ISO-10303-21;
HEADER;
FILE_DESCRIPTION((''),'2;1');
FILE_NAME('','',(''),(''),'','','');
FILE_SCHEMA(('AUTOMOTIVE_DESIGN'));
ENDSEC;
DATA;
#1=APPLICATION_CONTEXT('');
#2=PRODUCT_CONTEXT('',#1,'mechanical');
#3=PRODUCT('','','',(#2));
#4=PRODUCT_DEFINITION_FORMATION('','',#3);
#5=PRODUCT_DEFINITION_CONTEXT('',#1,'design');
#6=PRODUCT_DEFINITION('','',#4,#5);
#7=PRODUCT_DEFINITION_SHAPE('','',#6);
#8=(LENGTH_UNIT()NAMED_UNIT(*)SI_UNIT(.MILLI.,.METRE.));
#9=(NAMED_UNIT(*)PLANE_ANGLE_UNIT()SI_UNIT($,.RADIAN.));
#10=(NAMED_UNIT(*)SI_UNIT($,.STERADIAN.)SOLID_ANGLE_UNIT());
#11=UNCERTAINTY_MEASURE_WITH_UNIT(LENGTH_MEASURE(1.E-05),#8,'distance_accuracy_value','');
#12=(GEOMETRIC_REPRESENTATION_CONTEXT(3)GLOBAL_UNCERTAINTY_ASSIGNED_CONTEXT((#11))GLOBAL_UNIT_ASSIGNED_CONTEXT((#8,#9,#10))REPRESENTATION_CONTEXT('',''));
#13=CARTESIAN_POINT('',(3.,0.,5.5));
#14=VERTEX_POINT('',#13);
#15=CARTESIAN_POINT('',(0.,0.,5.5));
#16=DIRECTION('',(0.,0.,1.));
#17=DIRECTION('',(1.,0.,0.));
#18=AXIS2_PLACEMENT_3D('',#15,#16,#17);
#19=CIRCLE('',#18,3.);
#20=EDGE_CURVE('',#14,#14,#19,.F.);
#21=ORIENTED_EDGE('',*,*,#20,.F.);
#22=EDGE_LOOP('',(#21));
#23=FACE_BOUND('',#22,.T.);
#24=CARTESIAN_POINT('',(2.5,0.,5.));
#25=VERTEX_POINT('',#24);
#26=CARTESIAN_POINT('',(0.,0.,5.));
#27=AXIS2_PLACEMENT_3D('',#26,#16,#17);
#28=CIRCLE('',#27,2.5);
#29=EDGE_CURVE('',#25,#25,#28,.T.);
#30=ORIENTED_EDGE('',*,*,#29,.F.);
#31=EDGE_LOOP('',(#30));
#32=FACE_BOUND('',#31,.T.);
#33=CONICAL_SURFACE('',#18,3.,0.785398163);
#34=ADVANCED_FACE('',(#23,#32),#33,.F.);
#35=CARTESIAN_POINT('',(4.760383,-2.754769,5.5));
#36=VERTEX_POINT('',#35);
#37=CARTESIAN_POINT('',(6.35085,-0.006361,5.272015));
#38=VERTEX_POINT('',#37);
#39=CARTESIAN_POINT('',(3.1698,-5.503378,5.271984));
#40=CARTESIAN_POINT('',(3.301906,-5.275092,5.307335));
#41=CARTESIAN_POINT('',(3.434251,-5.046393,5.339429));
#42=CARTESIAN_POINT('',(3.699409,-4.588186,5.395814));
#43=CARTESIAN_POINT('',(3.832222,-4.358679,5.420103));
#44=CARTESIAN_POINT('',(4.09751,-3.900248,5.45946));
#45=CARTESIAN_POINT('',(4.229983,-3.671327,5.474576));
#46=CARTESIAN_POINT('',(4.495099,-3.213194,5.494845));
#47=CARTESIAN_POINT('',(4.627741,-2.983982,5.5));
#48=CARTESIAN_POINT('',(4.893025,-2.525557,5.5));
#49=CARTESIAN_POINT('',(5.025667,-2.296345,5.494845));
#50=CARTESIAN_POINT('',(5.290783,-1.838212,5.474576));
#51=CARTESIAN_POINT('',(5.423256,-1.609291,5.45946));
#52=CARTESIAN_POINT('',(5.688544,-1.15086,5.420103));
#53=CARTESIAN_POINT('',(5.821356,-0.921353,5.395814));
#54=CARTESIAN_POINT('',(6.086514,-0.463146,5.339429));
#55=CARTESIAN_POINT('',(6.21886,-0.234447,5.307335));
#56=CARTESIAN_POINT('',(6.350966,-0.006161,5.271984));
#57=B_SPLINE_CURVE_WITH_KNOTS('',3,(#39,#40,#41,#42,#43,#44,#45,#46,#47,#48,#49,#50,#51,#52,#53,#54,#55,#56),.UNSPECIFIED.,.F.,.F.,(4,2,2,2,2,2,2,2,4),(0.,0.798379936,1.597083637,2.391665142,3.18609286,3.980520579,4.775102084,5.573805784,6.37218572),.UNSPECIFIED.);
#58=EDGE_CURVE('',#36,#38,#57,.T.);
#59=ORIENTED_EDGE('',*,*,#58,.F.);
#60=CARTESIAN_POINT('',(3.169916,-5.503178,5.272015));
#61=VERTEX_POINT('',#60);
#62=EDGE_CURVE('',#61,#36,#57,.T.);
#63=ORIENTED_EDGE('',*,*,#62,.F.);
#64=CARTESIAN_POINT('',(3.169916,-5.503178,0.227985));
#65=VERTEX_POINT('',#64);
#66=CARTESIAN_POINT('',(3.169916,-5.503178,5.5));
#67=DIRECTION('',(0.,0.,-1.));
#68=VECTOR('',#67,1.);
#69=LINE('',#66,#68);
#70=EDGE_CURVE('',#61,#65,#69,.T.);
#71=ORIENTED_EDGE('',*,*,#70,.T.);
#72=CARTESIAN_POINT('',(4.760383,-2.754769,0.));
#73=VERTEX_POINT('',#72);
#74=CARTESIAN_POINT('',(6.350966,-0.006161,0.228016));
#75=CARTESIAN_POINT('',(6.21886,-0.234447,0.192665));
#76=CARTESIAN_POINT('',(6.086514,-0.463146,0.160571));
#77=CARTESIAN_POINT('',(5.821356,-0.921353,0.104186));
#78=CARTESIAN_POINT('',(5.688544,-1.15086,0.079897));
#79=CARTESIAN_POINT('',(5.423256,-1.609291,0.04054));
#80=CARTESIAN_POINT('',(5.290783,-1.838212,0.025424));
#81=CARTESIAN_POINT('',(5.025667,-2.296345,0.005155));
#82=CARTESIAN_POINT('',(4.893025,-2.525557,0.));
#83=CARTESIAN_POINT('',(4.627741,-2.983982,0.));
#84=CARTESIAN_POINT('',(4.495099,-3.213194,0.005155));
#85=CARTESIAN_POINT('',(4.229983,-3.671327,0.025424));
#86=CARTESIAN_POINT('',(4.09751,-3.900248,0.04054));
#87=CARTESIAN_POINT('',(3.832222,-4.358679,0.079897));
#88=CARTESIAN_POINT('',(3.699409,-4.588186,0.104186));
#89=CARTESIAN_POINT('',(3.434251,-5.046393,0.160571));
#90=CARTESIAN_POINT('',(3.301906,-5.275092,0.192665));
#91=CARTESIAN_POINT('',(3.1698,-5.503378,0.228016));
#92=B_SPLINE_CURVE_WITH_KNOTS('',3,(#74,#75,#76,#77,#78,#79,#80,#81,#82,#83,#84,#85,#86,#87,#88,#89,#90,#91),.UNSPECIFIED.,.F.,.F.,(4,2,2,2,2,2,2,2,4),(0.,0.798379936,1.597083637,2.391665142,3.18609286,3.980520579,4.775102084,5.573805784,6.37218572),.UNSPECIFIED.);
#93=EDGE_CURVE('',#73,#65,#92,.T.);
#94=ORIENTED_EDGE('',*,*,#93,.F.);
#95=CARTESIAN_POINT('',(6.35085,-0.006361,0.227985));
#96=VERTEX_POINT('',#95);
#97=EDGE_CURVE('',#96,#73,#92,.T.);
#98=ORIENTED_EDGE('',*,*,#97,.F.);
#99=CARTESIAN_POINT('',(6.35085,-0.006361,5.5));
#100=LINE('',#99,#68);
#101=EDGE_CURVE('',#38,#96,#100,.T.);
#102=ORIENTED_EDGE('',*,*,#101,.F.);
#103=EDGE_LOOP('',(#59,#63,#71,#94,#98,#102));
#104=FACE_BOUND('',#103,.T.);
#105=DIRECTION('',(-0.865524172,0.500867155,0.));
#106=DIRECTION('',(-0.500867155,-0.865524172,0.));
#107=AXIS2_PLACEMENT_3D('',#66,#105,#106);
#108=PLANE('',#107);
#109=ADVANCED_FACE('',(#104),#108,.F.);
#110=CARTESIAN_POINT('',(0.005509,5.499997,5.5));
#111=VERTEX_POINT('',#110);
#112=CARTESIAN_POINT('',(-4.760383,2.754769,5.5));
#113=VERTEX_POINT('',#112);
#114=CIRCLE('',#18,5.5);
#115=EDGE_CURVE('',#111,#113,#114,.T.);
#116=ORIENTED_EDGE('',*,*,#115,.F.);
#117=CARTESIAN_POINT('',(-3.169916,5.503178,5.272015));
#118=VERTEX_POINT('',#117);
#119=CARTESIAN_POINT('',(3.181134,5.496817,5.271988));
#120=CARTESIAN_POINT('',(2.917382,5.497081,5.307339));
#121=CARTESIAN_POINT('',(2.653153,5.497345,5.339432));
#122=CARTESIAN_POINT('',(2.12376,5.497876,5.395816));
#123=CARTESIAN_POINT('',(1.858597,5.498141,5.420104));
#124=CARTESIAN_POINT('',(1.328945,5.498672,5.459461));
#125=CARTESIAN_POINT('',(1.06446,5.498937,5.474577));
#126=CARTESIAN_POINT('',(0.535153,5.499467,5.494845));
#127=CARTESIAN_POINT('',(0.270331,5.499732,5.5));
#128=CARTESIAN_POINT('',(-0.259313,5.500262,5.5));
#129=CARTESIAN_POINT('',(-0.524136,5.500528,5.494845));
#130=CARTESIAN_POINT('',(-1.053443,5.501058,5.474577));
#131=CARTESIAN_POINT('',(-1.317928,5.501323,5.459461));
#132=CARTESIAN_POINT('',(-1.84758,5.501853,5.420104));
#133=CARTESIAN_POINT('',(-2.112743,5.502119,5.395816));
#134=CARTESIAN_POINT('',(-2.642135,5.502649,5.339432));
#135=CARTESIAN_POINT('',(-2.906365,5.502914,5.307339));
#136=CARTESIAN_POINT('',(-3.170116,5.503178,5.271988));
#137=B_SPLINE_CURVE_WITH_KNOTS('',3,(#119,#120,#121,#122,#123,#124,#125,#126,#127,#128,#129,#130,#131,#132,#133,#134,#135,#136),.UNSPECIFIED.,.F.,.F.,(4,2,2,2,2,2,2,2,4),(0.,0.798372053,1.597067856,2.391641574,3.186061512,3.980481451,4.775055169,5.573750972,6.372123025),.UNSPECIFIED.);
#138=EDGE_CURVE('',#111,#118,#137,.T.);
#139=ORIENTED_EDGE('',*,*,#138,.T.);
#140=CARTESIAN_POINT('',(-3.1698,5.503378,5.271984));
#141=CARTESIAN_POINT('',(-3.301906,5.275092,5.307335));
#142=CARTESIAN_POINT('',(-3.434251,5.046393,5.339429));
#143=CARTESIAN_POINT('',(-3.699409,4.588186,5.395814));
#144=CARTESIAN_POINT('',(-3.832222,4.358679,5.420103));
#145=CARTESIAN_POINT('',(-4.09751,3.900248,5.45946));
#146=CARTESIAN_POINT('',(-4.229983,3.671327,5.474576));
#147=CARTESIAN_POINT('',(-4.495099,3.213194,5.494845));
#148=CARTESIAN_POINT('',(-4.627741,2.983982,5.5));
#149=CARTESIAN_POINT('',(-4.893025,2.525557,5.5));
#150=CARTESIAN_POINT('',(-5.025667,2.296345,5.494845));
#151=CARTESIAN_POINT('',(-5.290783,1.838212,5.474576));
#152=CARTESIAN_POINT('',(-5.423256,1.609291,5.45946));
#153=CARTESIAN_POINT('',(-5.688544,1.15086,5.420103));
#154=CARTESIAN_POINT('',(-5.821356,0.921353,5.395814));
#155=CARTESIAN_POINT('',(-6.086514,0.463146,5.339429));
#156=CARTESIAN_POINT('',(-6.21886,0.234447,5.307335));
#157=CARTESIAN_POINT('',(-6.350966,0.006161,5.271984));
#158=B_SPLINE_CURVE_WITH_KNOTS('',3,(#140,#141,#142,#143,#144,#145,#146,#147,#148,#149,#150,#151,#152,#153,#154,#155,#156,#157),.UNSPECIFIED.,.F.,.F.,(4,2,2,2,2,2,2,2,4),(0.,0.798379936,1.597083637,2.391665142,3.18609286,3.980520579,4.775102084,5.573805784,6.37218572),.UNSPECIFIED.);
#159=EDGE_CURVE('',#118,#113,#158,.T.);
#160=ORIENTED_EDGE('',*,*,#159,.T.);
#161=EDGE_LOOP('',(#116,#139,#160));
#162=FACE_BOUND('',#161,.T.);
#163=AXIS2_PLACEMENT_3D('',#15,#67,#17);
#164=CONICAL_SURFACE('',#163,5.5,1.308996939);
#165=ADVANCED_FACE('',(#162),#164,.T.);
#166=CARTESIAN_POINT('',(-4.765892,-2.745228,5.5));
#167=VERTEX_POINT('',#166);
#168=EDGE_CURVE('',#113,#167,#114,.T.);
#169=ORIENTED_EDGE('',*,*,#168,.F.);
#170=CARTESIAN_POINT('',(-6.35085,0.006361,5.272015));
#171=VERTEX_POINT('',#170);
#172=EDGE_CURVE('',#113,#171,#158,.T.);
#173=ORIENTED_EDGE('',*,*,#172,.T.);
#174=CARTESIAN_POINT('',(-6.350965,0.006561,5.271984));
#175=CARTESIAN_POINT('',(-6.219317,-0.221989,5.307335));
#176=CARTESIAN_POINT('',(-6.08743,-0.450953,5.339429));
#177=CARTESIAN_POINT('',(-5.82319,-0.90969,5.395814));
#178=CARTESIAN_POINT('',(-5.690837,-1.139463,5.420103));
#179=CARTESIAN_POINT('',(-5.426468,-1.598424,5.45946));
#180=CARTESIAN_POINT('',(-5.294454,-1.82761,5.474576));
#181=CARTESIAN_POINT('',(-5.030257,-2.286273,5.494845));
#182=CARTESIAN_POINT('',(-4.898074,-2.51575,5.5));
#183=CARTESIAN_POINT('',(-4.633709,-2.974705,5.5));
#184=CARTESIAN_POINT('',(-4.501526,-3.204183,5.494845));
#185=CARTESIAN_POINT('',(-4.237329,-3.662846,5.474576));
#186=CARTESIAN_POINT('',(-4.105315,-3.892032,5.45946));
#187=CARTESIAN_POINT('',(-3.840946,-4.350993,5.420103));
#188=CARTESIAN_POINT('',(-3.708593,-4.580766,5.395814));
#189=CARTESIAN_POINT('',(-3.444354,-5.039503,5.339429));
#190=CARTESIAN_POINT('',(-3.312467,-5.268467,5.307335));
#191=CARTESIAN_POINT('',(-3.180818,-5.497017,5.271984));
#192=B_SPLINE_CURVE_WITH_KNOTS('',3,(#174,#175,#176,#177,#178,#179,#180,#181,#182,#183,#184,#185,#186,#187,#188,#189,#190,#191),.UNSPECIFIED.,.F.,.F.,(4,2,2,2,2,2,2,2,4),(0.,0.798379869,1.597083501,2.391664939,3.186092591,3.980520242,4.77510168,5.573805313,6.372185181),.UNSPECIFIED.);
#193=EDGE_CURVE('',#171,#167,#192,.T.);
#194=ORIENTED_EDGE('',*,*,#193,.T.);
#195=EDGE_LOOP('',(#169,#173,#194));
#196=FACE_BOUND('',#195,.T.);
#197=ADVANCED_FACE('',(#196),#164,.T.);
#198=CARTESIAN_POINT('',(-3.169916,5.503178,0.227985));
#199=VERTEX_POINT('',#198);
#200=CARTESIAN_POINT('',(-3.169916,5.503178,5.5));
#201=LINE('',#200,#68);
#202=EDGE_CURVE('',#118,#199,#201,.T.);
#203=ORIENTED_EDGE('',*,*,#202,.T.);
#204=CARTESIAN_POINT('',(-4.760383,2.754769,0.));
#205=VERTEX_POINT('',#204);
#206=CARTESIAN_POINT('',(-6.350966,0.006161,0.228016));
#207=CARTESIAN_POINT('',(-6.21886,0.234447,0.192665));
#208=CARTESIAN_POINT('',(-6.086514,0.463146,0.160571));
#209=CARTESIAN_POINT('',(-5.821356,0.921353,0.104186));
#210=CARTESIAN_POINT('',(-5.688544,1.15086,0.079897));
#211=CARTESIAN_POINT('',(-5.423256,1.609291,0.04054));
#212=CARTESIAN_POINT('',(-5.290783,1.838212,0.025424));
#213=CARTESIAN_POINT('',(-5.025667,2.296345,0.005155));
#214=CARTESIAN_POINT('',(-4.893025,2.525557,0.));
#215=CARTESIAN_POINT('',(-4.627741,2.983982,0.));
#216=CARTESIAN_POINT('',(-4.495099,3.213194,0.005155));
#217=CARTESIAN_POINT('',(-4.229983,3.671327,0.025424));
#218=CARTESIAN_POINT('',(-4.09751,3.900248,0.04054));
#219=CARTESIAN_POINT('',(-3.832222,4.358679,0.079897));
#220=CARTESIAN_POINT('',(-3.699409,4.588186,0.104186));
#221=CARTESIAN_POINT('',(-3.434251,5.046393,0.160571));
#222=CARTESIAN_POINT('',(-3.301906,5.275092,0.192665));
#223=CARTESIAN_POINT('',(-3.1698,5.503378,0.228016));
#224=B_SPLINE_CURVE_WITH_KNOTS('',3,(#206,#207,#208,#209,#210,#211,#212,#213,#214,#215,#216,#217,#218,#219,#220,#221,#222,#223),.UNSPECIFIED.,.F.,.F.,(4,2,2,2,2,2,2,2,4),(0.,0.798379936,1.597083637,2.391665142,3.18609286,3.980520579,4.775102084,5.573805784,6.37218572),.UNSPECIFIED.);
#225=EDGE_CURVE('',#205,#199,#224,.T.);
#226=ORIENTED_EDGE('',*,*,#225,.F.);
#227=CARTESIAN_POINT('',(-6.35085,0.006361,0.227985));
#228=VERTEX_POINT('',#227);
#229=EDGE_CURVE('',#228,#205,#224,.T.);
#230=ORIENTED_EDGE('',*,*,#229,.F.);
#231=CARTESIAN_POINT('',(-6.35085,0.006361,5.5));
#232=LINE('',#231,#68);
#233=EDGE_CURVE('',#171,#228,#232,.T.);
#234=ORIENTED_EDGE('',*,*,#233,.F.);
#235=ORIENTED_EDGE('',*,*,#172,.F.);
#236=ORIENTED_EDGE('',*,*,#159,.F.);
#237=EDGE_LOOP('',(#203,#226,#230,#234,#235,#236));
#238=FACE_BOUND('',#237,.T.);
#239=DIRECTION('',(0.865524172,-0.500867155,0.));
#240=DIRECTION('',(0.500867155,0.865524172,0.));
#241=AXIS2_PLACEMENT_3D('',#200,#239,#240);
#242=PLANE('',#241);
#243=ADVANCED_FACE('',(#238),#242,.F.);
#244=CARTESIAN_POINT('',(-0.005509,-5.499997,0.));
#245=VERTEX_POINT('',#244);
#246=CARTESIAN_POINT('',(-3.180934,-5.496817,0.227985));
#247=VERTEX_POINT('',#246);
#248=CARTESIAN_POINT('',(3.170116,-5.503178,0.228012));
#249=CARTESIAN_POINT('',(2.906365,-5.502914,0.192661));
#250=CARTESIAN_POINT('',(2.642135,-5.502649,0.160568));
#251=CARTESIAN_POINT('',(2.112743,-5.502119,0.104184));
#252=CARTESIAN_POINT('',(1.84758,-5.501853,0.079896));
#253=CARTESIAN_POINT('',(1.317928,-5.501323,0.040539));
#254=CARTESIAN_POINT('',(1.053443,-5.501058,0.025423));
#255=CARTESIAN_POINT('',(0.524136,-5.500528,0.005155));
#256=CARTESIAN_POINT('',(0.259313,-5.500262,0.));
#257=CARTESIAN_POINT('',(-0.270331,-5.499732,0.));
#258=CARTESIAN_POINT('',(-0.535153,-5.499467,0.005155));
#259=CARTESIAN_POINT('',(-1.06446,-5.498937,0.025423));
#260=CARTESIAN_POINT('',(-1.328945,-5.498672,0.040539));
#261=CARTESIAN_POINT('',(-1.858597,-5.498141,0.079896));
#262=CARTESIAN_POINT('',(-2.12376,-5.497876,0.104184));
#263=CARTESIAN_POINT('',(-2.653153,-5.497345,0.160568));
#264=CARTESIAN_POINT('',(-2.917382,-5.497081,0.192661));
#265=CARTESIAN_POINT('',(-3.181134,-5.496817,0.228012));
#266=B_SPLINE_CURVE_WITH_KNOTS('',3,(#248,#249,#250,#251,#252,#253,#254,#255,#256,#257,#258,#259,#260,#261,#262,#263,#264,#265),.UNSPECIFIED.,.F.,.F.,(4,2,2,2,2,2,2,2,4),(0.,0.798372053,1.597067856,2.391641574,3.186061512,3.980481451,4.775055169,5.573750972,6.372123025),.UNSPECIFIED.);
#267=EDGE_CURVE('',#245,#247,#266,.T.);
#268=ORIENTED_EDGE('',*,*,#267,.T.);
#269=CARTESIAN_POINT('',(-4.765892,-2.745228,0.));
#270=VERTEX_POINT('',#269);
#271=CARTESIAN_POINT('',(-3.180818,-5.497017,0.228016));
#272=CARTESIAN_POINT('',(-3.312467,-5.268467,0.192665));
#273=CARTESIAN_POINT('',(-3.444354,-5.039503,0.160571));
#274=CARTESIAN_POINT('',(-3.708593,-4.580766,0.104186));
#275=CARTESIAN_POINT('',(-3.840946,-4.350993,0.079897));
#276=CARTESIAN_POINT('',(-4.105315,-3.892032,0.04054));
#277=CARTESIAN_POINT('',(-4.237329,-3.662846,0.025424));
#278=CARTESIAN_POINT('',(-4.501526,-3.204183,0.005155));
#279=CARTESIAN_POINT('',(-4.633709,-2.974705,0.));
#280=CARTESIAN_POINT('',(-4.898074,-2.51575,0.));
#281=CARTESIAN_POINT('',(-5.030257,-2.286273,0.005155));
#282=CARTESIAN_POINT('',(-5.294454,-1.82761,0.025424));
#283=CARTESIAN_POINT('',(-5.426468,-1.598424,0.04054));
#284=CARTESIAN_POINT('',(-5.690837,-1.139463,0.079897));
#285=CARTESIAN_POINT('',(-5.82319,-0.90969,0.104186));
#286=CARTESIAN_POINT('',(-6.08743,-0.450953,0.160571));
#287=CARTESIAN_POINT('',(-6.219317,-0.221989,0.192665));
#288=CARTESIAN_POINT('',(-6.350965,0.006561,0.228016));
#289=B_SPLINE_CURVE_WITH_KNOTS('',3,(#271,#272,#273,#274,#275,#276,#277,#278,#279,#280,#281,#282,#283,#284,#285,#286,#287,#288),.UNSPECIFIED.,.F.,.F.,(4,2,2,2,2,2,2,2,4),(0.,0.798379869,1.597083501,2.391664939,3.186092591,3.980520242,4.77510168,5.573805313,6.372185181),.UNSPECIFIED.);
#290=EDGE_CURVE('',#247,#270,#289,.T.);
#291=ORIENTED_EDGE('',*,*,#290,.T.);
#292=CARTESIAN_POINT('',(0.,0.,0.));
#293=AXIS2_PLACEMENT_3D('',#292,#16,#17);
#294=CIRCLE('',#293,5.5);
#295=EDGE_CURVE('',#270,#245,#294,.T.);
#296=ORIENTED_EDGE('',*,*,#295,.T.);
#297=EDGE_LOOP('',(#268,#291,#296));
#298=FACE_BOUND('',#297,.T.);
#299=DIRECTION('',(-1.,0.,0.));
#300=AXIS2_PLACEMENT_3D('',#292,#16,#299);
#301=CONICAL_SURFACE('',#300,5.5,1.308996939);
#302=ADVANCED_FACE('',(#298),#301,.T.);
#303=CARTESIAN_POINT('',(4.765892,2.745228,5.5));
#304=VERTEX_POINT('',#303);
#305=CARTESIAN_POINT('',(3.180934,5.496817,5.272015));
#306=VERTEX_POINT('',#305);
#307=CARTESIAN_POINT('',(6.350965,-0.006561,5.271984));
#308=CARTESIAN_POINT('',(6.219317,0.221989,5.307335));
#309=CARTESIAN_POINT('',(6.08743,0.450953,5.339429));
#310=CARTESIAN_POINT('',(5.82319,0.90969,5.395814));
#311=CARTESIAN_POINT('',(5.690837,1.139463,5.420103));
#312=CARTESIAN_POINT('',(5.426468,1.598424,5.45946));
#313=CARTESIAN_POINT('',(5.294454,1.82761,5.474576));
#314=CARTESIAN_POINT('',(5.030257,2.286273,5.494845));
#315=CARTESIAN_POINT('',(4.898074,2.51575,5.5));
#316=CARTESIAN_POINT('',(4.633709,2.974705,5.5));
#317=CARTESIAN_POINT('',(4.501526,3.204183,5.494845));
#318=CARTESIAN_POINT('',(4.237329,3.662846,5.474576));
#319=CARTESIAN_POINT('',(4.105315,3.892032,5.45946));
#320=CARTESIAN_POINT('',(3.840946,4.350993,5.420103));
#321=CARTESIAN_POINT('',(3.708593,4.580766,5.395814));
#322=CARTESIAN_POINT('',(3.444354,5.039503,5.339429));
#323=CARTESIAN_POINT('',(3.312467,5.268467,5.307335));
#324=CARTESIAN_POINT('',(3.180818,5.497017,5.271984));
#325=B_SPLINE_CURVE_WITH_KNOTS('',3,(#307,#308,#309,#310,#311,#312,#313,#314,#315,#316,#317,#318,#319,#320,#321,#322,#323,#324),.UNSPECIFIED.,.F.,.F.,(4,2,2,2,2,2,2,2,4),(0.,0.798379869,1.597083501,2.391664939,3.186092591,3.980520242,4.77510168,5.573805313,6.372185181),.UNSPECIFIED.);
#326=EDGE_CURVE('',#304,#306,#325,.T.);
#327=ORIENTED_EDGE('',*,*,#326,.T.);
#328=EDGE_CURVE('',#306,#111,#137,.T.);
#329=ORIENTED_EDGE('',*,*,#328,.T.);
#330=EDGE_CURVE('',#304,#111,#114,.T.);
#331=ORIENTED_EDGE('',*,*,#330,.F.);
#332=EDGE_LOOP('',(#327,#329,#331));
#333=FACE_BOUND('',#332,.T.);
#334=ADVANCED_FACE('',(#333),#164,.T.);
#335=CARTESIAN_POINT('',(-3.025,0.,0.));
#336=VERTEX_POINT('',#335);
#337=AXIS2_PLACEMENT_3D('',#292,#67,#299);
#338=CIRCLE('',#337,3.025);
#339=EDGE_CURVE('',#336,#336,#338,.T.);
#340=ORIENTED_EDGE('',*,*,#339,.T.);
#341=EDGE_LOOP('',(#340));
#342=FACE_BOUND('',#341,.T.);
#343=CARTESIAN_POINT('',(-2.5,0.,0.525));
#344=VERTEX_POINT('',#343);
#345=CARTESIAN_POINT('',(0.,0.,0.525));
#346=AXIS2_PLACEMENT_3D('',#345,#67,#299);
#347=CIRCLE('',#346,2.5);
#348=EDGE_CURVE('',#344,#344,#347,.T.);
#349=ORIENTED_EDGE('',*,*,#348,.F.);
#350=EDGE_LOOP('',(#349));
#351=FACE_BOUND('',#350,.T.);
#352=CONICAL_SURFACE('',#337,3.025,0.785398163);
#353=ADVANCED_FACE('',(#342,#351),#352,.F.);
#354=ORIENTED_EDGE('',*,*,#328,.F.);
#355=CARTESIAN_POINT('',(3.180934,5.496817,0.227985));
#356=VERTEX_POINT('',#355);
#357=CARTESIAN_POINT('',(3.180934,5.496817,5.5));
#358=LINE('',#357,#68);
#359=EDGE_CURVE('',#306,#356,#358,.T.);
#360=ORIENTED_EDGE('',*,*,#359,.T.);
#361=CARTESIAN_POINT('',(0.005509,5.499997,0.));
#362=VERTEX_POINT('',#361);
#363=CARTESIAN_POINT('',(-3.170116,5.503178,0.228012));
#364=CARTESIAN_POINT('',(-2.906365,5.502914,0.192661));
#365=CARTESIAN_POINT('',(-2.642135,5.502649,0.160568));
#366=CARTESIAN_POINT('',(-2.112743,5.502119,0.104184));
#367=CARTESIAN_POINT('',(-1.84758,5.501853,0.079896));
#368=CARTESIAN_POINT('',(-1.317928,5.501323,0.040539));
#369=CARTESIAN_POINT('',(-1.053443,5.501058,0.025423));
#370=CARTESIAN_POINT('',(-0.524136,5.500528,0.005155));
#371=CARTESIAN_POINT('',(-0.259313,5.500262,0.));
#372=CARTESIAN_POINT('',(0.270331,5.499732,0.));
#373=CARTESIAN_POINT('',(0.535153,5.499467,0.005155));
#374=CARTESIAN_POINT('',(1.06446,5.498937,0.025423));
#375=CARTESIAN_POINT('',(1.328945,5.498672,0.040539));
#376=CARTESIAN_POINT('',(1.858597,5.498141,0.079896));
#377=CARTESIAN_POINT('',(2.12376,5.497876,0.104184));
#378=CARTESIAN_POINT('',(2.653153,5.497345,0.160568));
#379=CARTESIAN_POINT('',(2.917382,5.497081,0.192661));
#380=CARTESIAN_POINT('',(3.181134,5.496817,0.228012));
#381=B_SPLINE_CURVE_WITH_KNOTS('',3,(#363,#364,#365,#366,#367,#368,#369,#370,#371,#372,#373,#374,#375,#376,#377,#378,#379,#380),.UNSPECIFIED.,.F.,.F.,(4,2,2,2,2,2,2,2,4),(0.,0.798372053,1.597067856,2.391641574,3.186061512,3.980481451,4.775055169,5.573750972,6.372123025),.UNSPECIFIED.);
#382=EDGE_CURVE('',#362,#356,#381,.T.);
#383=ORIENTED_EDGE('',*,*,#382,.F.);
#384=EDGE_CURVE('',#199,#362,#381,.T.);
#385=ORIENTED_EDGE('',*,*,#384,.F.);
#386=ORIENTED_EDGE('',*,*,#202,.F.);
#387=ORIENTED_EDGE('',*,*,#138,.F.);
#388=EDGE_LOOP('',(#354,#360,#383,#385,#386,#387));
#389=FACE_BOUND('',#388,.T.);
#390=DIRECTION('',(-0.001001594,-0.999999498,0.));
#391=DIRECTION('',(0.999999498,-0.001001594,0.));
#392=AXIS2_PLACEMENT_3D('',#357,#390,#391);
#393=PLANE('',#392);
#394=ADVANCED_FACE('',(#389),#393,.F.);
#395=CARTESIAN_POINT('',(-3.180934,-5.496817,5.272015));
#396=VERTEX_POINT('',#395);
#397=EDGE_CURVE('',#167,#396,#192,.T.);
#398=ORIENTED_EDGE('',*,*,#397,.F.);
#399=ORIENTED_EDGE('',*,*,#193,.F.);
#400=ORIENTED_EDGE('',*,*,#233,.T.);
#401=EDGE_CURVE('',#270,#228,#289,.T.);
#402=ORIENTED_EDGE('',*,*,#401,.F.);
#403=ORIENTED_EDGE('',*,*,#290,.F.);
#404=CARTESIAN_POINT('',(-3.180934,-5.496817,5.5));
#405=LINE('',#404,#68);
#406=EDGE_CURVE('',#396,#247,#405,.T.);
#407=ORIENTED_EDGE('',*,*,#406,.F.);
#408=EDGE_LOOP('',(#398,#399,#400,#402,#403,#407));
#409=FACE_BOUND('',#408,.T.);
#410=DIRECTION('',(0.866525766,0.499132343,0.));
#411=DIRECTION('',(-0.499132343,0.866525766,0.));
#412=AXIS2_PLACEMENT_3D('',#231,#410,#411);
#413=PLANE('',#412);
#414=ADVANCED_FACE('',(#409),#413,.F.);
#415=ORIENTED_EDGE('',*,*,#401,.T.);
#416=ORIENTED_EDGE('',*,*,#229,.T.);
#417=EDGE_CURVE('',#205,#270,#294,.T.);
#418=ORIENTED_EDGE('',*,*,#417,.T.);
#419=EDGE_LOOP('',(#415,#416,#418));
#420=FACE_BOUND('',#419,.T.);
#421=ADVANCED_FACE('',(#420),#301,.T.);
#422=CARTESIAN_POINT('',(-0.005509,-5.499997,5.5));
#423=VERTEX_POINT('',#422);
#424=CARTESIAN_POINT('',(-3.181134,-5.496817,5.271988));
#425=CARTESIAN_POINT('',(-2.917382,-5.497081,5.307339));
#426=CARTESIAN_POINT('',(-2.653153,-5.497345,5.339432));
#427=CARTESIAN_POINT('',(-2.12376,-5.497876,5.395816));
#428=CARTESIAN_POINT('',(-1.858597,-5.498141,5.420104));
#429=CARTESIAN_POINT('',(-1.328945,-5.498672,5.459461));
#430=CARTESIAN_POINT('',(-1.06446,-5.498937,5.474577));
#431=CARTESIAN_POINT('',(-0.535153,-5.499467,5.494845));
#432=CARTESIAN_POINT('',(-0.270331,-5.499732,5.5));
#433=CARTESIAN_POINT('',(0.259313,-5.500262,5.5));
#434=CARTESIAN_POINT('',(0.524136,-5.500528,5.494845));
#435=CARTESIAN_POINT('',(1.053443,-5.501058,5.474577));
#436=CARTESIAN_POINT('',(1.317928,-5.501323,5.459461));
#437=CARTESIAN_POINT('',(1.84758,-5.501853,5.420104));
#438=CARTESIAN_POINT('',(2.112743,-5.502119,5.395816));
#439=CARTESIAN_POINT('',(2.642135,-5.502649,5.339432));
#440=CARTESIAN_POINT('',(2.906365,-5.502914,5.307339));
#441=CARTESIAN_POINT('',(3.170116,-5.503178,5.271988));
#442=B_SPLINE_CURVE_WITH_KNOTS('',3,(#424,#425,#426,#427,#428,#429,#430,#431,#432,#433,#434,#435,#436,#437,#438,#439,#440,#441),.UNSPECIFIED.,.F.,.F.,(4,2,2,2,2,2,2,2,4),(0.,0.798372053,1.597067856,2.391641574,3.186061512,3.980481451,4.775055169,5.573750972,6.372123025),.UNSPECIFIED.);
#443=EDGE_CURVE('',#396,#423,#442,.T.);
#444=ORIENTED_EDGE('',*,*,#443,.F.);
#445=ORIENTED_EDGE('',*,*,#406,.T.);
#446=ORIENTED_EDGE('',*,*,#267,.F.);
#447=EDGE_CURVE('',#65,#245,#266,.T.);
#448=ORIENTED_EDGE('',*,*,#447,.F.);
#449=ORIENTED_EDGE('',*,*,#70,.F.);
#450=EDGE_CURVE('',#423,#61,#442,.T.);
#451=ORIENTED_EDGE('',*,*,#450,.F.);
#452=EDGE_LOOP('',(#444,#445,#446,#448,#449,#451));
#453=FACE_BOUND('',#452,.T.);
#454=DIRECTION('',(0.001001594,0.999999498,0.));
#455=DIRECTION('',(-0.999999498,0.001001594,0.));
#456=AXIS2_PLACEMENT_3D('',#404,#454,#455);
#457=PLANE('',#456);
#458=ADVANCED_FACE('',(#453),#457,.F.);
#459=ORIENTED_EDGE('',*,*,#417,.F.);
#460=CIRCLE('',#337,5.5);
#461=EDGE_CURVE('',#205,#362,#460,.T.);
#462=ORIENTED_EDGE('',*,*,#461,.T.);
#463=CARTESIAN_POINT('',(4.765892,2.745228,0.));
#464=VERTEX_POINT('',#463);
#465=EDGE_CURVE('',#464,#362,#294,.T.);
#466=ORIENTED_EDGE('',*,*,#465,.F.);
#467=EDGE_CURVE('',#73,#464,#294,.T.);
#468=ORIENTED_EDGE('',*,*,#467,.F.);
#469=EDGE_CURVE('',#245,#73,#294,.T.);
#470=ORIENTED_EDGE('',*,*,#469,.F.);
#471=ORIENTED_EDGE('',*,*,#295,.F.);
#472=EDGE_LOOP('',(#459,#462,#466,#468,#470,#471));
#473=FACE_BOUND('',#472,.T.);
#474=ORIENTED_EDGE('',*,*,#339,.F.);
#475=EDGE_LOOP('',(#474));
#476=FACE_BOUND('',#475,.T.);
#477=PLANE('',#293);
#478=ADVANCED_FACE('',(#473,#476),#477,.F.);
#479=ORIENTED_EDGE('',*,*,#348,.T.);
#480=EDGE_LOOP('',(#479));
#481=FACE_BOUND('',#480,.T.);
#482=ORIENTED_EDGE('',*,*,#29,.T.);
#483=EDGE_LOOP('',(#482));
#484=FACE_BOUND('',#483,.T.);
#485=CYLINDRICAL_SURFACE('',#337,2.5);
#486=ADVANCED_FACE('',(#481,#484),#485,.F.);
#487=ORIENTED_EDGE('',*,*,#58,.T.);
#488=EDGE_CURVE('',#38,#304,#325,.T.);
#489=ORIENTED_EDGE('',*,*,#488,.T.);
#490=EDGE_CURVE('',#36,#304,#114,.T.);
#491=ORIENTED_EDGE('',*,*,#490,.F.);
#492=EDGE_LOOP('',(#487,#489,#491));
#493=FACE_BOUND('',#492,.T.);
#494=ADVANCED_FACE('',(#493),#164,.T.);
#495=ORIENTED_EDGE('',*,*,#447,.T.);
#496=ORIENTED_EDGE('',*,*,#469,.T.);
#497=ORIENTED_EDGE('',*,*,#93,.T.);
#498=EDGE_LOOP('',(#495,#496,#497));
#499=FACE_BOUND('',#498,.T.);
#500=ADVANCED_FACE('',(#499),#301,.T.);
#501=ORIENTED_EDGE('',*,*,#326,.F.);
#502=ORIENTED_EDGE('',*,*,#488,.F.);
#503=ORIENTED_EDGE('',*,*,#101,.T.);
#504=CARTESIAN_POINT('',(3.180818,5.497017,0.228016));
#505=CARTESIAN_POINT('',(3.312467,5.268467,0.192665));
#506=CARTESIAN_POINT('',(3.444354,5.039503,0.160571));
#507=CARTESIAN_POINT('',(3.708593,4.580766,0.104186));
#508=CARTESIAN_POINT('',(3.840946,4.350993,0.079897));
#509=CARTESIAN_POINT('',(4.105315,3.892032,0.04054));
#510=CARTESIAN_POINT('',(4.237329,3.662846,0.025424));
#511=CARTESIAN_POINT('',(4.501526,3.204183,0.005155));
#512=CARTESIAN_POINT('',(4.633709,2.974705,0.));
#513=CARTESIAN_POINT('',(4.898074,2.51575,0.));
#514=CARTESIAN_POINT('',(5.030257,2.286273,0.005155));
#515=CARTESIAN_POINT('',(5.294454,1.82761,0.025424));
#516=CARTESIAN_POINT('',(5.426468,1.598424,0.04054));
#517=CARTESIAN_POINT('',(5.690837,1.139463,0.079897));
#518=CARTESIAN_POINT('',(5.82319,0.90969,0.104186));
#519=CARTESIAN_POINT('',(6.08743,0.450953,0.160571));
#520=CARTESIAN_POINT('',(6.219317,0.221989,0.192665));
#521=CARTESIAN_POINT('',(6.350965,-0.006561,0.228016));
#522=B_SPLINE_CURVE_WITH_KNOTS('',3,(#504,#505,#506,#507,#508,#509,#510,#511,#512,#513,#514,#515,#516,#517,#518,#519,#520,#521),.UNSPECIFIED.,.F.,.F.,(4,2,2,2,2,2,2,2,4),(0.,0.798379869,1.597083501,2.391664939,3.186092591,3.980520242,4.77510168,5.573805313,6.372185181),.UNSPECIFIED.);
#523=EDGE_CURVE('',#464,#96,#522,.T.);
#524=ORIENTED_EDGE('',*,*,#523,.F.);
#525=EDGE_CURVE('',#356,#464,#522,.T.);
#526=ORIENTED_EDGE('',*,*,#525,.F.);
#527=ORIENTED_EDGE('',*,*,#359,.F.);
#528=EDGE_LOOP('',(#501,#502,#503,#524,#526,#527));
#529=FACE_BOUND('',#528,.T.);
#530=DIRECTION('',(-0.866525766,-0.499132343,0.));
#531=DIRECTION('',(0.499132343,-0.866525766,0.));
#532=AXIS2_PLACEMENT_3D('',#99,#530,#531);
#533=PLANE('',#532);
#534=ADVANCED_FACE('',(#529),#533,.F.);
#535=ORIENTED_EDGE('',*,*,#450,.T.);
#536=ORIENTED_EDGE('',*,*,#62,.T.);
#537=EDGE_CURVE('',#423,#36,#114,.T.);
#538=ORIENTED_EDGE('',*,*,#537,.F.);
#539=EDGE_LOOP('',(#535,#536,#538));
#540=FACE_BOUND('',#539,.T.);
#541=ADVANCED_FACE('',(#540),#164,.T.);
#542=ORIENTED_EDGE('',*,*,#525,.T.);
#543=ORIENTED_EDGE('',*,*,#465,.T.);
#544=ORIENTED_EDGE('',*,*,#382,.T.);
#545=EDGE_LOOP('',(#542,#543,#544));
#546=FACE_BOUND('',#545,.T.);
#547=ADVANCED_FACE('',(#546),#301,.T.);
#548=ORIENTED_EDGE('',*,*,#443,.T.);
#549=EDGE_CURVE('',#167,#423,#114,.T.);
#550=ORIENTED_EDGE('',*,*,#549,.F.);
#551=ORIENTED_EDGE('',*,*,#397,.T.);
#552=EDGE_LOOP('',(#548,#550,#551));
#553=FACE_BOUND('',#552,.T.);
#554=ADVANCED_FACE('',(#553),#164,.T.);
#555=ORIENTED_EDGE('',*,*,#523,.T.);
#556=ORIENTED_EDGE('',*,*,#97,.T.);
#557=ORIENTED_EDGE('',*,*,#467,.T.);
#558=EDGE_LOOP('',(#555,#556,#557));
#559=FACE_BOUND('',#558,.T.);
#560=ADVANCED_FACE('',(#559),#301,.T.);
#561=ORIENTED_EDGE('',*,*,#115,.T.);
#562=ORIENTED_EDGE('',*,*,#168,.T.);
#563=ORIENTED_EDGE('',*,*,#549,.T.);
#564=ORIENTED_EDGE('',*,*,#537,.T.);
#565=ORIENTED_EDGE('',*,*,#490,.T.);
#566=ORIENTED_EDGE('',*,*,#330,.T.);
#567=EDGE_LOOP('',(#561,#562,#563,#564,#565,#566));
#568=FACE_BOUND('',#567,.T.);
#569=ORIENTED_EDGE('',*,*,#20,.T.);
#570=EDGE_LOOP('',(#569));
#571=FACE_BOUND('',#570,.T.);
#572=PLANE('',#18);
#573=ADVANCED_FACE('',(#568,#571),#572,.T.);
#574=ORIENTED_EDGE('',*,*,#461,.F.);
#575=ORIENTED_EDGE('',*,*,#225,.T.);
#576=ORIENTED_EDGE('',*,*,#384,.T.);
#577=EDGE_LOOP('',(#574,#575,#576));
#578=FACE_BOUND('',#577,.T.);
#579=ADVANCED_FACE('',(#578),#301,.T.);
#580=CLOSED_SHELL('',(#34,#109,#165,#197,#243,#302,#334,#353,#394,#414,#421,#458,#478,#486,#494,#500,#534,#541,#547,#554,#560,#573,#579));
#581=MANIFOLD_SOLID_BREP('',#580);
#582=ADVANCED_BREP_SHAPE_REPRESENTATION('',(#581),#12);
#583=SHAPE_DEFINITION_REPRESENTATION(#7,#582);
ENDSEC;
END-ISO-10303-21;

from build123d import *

# Parameters (mm, degrees)
RESSALTO_EXTRUS_O2_DEPTH        = 5.5
ESBO_O3_OUTSIDE_W               = 115.272
ESBO_O3_OUTSIDE_H               = 113.576
ESBO_O3_OUTSIDE_R               = 5.5
CORTE_EXTRUS_O1_DEPTH           = 13
CORTE_EXTRUS_O1_DRAFT           = -75
ESBO_O4_OUTSIDE_W               = 115.272
ESBO_O4_OUTSIDE_H               = 113.576
ESBO_O4_OUTSIDE_R               = 5.5
CORTE_EXTRUS_O2_DEPTH           = 13
CORTE_EXTRUS_O2_DRAFT           = -75
FURO_ROSCADO_DE_M61_D           = 5
FURO_ROSCADO_DE_M61_CSINK_D     = 6.05
FURO_ROSCADO_DE_M61_CSINK_ANGLE = 90
CHANFRO1_SIZE                   = 0.5


with BuildPart() as part:
    # Esboço2 → Ressalto-extrusão2 (new body)
    with BuildSketch(Plane.XY):
        Polygon((3.180933655, 5.496816753), (-3.169916121, 5.503177729), (-6.350849776, 0.006360976), (-3.180933655, -5.496816753), (3.169916121, -5.503177729), (6.350849776, -0.006360976), align=None)
    extrude(amount=RESSALTO_EXTRUS_O2_DEPTH)


with BuildPart() as corte_extrus_o1_tool:
    # Esboço3 outside → Corte-extrusão1 (with draft: the straight prism first)
    with BuildSketch(Plane.XY.offset(5.5)):
        Rectangle(ESBO_O3_OUTSIDE_W, ESBO_O3_OUTSIDE_H)
        Circle(ESBO_O3_OUTSIDE_R, mode=Mode.SUBTRACT)
    extrude(amount=-CORTE_EXTRUS_O1_DEPTH)
    # Corte-extrusão1: the draft: its side faces are tilted about the plane it starts from
    corte_extrus_o1_sides = [corte_extrus_o1_tool.faces().sort_by_distance(p)[0] for p in [
        (0, -56.788, -1),
        (57.636, 0, -1),
        (0, 56.788, -1),
        (-57.636, 0, -1),
        (-5.5, 0, -1),
    ]]
    draft(corte_extrus_o1_sides, Plane.XY.offset(5.5), CORTE_EXTRUS_O1_DRAFT)


with BuildPart() as part_1:
    add(part.part)

    # Corte-extrusão1: cut by corte_extrus_o1_tool
    add(corte_extrus_o1_tool.part, mode=Mode.SUBTRACT)


with BuildPart() as corte_extrus_o2_tool:
    # Esboço4 outside → Corte-extrusão2 (with draft: the straight prism first)
    with BuildSketch(Plane(origin=(0, 0, 0), x_dir=(-1, 0, 0), z_dir=(0, 0, -1))):
        Rectangle(ESBO_O4_OUTSIDE_W, ESBO_O4_OUTSIDE_H)
        Circle(ESBO_O4_OUTSIDE_R, mode=Mode.SUBTRACT)
    extrude(amount=-CORTE_EXTRUS_O2_DEPTH)
    # Corte-extrusão2: the draft: its side faces are tilted about the plane it starts from
    corte_extrus_o2_sides = [corte_extrus_o2_tool.faces().sort_by_distance(p)[0] for p in [
        (0, -56.788, 6.5),
        (-57.636, 0, 6.5),
        (0, 56.788, 6.5),
        (57.636, 0, 6.5),
        (5.5, 0, 6.5),
    ]]
    draft(corte_extrus_o2_sides, Plane(origin=(0, 0, 0), x_dir=(-1, 0, 0), z_dir=(0, 0, -1)), CORTE_EXTRUS_O2_DRAFT)


with BuildPart() as part_2:
    add(part_1.part)

    # Corte-extrusão2: cut by corte_extrus_o2_tool
    add(corte_extrus_o2_tool.part, mode=Mode.SUBTRACT)

    # Furo roscado de M61 (through all)
    with Locations(Plane(origin=(0, 0, 0), x_dir=(-1, 0, 0), z_dir=(0, 0, -1))):
        with Locations((0, 0)):
            CounterSinkHole(FURO_ROSCADO_DE_M61_D / 2, FURO_ROSCADO_DE_M61_CSINK_D / 2, counter_sink_angle=FURO_ROSCADO_DE_M61_CSINK_ANGLE)

    # Chanfro1
    chanfro1_edges = [part_2.edges().sort_by_distance(p)[0] for p in [
        (-2.5, 0, 5.5),
    ]]
    chamfer(chanfro1_edges, length=CHANFRO1_SIZE)


solid = part_2.part
